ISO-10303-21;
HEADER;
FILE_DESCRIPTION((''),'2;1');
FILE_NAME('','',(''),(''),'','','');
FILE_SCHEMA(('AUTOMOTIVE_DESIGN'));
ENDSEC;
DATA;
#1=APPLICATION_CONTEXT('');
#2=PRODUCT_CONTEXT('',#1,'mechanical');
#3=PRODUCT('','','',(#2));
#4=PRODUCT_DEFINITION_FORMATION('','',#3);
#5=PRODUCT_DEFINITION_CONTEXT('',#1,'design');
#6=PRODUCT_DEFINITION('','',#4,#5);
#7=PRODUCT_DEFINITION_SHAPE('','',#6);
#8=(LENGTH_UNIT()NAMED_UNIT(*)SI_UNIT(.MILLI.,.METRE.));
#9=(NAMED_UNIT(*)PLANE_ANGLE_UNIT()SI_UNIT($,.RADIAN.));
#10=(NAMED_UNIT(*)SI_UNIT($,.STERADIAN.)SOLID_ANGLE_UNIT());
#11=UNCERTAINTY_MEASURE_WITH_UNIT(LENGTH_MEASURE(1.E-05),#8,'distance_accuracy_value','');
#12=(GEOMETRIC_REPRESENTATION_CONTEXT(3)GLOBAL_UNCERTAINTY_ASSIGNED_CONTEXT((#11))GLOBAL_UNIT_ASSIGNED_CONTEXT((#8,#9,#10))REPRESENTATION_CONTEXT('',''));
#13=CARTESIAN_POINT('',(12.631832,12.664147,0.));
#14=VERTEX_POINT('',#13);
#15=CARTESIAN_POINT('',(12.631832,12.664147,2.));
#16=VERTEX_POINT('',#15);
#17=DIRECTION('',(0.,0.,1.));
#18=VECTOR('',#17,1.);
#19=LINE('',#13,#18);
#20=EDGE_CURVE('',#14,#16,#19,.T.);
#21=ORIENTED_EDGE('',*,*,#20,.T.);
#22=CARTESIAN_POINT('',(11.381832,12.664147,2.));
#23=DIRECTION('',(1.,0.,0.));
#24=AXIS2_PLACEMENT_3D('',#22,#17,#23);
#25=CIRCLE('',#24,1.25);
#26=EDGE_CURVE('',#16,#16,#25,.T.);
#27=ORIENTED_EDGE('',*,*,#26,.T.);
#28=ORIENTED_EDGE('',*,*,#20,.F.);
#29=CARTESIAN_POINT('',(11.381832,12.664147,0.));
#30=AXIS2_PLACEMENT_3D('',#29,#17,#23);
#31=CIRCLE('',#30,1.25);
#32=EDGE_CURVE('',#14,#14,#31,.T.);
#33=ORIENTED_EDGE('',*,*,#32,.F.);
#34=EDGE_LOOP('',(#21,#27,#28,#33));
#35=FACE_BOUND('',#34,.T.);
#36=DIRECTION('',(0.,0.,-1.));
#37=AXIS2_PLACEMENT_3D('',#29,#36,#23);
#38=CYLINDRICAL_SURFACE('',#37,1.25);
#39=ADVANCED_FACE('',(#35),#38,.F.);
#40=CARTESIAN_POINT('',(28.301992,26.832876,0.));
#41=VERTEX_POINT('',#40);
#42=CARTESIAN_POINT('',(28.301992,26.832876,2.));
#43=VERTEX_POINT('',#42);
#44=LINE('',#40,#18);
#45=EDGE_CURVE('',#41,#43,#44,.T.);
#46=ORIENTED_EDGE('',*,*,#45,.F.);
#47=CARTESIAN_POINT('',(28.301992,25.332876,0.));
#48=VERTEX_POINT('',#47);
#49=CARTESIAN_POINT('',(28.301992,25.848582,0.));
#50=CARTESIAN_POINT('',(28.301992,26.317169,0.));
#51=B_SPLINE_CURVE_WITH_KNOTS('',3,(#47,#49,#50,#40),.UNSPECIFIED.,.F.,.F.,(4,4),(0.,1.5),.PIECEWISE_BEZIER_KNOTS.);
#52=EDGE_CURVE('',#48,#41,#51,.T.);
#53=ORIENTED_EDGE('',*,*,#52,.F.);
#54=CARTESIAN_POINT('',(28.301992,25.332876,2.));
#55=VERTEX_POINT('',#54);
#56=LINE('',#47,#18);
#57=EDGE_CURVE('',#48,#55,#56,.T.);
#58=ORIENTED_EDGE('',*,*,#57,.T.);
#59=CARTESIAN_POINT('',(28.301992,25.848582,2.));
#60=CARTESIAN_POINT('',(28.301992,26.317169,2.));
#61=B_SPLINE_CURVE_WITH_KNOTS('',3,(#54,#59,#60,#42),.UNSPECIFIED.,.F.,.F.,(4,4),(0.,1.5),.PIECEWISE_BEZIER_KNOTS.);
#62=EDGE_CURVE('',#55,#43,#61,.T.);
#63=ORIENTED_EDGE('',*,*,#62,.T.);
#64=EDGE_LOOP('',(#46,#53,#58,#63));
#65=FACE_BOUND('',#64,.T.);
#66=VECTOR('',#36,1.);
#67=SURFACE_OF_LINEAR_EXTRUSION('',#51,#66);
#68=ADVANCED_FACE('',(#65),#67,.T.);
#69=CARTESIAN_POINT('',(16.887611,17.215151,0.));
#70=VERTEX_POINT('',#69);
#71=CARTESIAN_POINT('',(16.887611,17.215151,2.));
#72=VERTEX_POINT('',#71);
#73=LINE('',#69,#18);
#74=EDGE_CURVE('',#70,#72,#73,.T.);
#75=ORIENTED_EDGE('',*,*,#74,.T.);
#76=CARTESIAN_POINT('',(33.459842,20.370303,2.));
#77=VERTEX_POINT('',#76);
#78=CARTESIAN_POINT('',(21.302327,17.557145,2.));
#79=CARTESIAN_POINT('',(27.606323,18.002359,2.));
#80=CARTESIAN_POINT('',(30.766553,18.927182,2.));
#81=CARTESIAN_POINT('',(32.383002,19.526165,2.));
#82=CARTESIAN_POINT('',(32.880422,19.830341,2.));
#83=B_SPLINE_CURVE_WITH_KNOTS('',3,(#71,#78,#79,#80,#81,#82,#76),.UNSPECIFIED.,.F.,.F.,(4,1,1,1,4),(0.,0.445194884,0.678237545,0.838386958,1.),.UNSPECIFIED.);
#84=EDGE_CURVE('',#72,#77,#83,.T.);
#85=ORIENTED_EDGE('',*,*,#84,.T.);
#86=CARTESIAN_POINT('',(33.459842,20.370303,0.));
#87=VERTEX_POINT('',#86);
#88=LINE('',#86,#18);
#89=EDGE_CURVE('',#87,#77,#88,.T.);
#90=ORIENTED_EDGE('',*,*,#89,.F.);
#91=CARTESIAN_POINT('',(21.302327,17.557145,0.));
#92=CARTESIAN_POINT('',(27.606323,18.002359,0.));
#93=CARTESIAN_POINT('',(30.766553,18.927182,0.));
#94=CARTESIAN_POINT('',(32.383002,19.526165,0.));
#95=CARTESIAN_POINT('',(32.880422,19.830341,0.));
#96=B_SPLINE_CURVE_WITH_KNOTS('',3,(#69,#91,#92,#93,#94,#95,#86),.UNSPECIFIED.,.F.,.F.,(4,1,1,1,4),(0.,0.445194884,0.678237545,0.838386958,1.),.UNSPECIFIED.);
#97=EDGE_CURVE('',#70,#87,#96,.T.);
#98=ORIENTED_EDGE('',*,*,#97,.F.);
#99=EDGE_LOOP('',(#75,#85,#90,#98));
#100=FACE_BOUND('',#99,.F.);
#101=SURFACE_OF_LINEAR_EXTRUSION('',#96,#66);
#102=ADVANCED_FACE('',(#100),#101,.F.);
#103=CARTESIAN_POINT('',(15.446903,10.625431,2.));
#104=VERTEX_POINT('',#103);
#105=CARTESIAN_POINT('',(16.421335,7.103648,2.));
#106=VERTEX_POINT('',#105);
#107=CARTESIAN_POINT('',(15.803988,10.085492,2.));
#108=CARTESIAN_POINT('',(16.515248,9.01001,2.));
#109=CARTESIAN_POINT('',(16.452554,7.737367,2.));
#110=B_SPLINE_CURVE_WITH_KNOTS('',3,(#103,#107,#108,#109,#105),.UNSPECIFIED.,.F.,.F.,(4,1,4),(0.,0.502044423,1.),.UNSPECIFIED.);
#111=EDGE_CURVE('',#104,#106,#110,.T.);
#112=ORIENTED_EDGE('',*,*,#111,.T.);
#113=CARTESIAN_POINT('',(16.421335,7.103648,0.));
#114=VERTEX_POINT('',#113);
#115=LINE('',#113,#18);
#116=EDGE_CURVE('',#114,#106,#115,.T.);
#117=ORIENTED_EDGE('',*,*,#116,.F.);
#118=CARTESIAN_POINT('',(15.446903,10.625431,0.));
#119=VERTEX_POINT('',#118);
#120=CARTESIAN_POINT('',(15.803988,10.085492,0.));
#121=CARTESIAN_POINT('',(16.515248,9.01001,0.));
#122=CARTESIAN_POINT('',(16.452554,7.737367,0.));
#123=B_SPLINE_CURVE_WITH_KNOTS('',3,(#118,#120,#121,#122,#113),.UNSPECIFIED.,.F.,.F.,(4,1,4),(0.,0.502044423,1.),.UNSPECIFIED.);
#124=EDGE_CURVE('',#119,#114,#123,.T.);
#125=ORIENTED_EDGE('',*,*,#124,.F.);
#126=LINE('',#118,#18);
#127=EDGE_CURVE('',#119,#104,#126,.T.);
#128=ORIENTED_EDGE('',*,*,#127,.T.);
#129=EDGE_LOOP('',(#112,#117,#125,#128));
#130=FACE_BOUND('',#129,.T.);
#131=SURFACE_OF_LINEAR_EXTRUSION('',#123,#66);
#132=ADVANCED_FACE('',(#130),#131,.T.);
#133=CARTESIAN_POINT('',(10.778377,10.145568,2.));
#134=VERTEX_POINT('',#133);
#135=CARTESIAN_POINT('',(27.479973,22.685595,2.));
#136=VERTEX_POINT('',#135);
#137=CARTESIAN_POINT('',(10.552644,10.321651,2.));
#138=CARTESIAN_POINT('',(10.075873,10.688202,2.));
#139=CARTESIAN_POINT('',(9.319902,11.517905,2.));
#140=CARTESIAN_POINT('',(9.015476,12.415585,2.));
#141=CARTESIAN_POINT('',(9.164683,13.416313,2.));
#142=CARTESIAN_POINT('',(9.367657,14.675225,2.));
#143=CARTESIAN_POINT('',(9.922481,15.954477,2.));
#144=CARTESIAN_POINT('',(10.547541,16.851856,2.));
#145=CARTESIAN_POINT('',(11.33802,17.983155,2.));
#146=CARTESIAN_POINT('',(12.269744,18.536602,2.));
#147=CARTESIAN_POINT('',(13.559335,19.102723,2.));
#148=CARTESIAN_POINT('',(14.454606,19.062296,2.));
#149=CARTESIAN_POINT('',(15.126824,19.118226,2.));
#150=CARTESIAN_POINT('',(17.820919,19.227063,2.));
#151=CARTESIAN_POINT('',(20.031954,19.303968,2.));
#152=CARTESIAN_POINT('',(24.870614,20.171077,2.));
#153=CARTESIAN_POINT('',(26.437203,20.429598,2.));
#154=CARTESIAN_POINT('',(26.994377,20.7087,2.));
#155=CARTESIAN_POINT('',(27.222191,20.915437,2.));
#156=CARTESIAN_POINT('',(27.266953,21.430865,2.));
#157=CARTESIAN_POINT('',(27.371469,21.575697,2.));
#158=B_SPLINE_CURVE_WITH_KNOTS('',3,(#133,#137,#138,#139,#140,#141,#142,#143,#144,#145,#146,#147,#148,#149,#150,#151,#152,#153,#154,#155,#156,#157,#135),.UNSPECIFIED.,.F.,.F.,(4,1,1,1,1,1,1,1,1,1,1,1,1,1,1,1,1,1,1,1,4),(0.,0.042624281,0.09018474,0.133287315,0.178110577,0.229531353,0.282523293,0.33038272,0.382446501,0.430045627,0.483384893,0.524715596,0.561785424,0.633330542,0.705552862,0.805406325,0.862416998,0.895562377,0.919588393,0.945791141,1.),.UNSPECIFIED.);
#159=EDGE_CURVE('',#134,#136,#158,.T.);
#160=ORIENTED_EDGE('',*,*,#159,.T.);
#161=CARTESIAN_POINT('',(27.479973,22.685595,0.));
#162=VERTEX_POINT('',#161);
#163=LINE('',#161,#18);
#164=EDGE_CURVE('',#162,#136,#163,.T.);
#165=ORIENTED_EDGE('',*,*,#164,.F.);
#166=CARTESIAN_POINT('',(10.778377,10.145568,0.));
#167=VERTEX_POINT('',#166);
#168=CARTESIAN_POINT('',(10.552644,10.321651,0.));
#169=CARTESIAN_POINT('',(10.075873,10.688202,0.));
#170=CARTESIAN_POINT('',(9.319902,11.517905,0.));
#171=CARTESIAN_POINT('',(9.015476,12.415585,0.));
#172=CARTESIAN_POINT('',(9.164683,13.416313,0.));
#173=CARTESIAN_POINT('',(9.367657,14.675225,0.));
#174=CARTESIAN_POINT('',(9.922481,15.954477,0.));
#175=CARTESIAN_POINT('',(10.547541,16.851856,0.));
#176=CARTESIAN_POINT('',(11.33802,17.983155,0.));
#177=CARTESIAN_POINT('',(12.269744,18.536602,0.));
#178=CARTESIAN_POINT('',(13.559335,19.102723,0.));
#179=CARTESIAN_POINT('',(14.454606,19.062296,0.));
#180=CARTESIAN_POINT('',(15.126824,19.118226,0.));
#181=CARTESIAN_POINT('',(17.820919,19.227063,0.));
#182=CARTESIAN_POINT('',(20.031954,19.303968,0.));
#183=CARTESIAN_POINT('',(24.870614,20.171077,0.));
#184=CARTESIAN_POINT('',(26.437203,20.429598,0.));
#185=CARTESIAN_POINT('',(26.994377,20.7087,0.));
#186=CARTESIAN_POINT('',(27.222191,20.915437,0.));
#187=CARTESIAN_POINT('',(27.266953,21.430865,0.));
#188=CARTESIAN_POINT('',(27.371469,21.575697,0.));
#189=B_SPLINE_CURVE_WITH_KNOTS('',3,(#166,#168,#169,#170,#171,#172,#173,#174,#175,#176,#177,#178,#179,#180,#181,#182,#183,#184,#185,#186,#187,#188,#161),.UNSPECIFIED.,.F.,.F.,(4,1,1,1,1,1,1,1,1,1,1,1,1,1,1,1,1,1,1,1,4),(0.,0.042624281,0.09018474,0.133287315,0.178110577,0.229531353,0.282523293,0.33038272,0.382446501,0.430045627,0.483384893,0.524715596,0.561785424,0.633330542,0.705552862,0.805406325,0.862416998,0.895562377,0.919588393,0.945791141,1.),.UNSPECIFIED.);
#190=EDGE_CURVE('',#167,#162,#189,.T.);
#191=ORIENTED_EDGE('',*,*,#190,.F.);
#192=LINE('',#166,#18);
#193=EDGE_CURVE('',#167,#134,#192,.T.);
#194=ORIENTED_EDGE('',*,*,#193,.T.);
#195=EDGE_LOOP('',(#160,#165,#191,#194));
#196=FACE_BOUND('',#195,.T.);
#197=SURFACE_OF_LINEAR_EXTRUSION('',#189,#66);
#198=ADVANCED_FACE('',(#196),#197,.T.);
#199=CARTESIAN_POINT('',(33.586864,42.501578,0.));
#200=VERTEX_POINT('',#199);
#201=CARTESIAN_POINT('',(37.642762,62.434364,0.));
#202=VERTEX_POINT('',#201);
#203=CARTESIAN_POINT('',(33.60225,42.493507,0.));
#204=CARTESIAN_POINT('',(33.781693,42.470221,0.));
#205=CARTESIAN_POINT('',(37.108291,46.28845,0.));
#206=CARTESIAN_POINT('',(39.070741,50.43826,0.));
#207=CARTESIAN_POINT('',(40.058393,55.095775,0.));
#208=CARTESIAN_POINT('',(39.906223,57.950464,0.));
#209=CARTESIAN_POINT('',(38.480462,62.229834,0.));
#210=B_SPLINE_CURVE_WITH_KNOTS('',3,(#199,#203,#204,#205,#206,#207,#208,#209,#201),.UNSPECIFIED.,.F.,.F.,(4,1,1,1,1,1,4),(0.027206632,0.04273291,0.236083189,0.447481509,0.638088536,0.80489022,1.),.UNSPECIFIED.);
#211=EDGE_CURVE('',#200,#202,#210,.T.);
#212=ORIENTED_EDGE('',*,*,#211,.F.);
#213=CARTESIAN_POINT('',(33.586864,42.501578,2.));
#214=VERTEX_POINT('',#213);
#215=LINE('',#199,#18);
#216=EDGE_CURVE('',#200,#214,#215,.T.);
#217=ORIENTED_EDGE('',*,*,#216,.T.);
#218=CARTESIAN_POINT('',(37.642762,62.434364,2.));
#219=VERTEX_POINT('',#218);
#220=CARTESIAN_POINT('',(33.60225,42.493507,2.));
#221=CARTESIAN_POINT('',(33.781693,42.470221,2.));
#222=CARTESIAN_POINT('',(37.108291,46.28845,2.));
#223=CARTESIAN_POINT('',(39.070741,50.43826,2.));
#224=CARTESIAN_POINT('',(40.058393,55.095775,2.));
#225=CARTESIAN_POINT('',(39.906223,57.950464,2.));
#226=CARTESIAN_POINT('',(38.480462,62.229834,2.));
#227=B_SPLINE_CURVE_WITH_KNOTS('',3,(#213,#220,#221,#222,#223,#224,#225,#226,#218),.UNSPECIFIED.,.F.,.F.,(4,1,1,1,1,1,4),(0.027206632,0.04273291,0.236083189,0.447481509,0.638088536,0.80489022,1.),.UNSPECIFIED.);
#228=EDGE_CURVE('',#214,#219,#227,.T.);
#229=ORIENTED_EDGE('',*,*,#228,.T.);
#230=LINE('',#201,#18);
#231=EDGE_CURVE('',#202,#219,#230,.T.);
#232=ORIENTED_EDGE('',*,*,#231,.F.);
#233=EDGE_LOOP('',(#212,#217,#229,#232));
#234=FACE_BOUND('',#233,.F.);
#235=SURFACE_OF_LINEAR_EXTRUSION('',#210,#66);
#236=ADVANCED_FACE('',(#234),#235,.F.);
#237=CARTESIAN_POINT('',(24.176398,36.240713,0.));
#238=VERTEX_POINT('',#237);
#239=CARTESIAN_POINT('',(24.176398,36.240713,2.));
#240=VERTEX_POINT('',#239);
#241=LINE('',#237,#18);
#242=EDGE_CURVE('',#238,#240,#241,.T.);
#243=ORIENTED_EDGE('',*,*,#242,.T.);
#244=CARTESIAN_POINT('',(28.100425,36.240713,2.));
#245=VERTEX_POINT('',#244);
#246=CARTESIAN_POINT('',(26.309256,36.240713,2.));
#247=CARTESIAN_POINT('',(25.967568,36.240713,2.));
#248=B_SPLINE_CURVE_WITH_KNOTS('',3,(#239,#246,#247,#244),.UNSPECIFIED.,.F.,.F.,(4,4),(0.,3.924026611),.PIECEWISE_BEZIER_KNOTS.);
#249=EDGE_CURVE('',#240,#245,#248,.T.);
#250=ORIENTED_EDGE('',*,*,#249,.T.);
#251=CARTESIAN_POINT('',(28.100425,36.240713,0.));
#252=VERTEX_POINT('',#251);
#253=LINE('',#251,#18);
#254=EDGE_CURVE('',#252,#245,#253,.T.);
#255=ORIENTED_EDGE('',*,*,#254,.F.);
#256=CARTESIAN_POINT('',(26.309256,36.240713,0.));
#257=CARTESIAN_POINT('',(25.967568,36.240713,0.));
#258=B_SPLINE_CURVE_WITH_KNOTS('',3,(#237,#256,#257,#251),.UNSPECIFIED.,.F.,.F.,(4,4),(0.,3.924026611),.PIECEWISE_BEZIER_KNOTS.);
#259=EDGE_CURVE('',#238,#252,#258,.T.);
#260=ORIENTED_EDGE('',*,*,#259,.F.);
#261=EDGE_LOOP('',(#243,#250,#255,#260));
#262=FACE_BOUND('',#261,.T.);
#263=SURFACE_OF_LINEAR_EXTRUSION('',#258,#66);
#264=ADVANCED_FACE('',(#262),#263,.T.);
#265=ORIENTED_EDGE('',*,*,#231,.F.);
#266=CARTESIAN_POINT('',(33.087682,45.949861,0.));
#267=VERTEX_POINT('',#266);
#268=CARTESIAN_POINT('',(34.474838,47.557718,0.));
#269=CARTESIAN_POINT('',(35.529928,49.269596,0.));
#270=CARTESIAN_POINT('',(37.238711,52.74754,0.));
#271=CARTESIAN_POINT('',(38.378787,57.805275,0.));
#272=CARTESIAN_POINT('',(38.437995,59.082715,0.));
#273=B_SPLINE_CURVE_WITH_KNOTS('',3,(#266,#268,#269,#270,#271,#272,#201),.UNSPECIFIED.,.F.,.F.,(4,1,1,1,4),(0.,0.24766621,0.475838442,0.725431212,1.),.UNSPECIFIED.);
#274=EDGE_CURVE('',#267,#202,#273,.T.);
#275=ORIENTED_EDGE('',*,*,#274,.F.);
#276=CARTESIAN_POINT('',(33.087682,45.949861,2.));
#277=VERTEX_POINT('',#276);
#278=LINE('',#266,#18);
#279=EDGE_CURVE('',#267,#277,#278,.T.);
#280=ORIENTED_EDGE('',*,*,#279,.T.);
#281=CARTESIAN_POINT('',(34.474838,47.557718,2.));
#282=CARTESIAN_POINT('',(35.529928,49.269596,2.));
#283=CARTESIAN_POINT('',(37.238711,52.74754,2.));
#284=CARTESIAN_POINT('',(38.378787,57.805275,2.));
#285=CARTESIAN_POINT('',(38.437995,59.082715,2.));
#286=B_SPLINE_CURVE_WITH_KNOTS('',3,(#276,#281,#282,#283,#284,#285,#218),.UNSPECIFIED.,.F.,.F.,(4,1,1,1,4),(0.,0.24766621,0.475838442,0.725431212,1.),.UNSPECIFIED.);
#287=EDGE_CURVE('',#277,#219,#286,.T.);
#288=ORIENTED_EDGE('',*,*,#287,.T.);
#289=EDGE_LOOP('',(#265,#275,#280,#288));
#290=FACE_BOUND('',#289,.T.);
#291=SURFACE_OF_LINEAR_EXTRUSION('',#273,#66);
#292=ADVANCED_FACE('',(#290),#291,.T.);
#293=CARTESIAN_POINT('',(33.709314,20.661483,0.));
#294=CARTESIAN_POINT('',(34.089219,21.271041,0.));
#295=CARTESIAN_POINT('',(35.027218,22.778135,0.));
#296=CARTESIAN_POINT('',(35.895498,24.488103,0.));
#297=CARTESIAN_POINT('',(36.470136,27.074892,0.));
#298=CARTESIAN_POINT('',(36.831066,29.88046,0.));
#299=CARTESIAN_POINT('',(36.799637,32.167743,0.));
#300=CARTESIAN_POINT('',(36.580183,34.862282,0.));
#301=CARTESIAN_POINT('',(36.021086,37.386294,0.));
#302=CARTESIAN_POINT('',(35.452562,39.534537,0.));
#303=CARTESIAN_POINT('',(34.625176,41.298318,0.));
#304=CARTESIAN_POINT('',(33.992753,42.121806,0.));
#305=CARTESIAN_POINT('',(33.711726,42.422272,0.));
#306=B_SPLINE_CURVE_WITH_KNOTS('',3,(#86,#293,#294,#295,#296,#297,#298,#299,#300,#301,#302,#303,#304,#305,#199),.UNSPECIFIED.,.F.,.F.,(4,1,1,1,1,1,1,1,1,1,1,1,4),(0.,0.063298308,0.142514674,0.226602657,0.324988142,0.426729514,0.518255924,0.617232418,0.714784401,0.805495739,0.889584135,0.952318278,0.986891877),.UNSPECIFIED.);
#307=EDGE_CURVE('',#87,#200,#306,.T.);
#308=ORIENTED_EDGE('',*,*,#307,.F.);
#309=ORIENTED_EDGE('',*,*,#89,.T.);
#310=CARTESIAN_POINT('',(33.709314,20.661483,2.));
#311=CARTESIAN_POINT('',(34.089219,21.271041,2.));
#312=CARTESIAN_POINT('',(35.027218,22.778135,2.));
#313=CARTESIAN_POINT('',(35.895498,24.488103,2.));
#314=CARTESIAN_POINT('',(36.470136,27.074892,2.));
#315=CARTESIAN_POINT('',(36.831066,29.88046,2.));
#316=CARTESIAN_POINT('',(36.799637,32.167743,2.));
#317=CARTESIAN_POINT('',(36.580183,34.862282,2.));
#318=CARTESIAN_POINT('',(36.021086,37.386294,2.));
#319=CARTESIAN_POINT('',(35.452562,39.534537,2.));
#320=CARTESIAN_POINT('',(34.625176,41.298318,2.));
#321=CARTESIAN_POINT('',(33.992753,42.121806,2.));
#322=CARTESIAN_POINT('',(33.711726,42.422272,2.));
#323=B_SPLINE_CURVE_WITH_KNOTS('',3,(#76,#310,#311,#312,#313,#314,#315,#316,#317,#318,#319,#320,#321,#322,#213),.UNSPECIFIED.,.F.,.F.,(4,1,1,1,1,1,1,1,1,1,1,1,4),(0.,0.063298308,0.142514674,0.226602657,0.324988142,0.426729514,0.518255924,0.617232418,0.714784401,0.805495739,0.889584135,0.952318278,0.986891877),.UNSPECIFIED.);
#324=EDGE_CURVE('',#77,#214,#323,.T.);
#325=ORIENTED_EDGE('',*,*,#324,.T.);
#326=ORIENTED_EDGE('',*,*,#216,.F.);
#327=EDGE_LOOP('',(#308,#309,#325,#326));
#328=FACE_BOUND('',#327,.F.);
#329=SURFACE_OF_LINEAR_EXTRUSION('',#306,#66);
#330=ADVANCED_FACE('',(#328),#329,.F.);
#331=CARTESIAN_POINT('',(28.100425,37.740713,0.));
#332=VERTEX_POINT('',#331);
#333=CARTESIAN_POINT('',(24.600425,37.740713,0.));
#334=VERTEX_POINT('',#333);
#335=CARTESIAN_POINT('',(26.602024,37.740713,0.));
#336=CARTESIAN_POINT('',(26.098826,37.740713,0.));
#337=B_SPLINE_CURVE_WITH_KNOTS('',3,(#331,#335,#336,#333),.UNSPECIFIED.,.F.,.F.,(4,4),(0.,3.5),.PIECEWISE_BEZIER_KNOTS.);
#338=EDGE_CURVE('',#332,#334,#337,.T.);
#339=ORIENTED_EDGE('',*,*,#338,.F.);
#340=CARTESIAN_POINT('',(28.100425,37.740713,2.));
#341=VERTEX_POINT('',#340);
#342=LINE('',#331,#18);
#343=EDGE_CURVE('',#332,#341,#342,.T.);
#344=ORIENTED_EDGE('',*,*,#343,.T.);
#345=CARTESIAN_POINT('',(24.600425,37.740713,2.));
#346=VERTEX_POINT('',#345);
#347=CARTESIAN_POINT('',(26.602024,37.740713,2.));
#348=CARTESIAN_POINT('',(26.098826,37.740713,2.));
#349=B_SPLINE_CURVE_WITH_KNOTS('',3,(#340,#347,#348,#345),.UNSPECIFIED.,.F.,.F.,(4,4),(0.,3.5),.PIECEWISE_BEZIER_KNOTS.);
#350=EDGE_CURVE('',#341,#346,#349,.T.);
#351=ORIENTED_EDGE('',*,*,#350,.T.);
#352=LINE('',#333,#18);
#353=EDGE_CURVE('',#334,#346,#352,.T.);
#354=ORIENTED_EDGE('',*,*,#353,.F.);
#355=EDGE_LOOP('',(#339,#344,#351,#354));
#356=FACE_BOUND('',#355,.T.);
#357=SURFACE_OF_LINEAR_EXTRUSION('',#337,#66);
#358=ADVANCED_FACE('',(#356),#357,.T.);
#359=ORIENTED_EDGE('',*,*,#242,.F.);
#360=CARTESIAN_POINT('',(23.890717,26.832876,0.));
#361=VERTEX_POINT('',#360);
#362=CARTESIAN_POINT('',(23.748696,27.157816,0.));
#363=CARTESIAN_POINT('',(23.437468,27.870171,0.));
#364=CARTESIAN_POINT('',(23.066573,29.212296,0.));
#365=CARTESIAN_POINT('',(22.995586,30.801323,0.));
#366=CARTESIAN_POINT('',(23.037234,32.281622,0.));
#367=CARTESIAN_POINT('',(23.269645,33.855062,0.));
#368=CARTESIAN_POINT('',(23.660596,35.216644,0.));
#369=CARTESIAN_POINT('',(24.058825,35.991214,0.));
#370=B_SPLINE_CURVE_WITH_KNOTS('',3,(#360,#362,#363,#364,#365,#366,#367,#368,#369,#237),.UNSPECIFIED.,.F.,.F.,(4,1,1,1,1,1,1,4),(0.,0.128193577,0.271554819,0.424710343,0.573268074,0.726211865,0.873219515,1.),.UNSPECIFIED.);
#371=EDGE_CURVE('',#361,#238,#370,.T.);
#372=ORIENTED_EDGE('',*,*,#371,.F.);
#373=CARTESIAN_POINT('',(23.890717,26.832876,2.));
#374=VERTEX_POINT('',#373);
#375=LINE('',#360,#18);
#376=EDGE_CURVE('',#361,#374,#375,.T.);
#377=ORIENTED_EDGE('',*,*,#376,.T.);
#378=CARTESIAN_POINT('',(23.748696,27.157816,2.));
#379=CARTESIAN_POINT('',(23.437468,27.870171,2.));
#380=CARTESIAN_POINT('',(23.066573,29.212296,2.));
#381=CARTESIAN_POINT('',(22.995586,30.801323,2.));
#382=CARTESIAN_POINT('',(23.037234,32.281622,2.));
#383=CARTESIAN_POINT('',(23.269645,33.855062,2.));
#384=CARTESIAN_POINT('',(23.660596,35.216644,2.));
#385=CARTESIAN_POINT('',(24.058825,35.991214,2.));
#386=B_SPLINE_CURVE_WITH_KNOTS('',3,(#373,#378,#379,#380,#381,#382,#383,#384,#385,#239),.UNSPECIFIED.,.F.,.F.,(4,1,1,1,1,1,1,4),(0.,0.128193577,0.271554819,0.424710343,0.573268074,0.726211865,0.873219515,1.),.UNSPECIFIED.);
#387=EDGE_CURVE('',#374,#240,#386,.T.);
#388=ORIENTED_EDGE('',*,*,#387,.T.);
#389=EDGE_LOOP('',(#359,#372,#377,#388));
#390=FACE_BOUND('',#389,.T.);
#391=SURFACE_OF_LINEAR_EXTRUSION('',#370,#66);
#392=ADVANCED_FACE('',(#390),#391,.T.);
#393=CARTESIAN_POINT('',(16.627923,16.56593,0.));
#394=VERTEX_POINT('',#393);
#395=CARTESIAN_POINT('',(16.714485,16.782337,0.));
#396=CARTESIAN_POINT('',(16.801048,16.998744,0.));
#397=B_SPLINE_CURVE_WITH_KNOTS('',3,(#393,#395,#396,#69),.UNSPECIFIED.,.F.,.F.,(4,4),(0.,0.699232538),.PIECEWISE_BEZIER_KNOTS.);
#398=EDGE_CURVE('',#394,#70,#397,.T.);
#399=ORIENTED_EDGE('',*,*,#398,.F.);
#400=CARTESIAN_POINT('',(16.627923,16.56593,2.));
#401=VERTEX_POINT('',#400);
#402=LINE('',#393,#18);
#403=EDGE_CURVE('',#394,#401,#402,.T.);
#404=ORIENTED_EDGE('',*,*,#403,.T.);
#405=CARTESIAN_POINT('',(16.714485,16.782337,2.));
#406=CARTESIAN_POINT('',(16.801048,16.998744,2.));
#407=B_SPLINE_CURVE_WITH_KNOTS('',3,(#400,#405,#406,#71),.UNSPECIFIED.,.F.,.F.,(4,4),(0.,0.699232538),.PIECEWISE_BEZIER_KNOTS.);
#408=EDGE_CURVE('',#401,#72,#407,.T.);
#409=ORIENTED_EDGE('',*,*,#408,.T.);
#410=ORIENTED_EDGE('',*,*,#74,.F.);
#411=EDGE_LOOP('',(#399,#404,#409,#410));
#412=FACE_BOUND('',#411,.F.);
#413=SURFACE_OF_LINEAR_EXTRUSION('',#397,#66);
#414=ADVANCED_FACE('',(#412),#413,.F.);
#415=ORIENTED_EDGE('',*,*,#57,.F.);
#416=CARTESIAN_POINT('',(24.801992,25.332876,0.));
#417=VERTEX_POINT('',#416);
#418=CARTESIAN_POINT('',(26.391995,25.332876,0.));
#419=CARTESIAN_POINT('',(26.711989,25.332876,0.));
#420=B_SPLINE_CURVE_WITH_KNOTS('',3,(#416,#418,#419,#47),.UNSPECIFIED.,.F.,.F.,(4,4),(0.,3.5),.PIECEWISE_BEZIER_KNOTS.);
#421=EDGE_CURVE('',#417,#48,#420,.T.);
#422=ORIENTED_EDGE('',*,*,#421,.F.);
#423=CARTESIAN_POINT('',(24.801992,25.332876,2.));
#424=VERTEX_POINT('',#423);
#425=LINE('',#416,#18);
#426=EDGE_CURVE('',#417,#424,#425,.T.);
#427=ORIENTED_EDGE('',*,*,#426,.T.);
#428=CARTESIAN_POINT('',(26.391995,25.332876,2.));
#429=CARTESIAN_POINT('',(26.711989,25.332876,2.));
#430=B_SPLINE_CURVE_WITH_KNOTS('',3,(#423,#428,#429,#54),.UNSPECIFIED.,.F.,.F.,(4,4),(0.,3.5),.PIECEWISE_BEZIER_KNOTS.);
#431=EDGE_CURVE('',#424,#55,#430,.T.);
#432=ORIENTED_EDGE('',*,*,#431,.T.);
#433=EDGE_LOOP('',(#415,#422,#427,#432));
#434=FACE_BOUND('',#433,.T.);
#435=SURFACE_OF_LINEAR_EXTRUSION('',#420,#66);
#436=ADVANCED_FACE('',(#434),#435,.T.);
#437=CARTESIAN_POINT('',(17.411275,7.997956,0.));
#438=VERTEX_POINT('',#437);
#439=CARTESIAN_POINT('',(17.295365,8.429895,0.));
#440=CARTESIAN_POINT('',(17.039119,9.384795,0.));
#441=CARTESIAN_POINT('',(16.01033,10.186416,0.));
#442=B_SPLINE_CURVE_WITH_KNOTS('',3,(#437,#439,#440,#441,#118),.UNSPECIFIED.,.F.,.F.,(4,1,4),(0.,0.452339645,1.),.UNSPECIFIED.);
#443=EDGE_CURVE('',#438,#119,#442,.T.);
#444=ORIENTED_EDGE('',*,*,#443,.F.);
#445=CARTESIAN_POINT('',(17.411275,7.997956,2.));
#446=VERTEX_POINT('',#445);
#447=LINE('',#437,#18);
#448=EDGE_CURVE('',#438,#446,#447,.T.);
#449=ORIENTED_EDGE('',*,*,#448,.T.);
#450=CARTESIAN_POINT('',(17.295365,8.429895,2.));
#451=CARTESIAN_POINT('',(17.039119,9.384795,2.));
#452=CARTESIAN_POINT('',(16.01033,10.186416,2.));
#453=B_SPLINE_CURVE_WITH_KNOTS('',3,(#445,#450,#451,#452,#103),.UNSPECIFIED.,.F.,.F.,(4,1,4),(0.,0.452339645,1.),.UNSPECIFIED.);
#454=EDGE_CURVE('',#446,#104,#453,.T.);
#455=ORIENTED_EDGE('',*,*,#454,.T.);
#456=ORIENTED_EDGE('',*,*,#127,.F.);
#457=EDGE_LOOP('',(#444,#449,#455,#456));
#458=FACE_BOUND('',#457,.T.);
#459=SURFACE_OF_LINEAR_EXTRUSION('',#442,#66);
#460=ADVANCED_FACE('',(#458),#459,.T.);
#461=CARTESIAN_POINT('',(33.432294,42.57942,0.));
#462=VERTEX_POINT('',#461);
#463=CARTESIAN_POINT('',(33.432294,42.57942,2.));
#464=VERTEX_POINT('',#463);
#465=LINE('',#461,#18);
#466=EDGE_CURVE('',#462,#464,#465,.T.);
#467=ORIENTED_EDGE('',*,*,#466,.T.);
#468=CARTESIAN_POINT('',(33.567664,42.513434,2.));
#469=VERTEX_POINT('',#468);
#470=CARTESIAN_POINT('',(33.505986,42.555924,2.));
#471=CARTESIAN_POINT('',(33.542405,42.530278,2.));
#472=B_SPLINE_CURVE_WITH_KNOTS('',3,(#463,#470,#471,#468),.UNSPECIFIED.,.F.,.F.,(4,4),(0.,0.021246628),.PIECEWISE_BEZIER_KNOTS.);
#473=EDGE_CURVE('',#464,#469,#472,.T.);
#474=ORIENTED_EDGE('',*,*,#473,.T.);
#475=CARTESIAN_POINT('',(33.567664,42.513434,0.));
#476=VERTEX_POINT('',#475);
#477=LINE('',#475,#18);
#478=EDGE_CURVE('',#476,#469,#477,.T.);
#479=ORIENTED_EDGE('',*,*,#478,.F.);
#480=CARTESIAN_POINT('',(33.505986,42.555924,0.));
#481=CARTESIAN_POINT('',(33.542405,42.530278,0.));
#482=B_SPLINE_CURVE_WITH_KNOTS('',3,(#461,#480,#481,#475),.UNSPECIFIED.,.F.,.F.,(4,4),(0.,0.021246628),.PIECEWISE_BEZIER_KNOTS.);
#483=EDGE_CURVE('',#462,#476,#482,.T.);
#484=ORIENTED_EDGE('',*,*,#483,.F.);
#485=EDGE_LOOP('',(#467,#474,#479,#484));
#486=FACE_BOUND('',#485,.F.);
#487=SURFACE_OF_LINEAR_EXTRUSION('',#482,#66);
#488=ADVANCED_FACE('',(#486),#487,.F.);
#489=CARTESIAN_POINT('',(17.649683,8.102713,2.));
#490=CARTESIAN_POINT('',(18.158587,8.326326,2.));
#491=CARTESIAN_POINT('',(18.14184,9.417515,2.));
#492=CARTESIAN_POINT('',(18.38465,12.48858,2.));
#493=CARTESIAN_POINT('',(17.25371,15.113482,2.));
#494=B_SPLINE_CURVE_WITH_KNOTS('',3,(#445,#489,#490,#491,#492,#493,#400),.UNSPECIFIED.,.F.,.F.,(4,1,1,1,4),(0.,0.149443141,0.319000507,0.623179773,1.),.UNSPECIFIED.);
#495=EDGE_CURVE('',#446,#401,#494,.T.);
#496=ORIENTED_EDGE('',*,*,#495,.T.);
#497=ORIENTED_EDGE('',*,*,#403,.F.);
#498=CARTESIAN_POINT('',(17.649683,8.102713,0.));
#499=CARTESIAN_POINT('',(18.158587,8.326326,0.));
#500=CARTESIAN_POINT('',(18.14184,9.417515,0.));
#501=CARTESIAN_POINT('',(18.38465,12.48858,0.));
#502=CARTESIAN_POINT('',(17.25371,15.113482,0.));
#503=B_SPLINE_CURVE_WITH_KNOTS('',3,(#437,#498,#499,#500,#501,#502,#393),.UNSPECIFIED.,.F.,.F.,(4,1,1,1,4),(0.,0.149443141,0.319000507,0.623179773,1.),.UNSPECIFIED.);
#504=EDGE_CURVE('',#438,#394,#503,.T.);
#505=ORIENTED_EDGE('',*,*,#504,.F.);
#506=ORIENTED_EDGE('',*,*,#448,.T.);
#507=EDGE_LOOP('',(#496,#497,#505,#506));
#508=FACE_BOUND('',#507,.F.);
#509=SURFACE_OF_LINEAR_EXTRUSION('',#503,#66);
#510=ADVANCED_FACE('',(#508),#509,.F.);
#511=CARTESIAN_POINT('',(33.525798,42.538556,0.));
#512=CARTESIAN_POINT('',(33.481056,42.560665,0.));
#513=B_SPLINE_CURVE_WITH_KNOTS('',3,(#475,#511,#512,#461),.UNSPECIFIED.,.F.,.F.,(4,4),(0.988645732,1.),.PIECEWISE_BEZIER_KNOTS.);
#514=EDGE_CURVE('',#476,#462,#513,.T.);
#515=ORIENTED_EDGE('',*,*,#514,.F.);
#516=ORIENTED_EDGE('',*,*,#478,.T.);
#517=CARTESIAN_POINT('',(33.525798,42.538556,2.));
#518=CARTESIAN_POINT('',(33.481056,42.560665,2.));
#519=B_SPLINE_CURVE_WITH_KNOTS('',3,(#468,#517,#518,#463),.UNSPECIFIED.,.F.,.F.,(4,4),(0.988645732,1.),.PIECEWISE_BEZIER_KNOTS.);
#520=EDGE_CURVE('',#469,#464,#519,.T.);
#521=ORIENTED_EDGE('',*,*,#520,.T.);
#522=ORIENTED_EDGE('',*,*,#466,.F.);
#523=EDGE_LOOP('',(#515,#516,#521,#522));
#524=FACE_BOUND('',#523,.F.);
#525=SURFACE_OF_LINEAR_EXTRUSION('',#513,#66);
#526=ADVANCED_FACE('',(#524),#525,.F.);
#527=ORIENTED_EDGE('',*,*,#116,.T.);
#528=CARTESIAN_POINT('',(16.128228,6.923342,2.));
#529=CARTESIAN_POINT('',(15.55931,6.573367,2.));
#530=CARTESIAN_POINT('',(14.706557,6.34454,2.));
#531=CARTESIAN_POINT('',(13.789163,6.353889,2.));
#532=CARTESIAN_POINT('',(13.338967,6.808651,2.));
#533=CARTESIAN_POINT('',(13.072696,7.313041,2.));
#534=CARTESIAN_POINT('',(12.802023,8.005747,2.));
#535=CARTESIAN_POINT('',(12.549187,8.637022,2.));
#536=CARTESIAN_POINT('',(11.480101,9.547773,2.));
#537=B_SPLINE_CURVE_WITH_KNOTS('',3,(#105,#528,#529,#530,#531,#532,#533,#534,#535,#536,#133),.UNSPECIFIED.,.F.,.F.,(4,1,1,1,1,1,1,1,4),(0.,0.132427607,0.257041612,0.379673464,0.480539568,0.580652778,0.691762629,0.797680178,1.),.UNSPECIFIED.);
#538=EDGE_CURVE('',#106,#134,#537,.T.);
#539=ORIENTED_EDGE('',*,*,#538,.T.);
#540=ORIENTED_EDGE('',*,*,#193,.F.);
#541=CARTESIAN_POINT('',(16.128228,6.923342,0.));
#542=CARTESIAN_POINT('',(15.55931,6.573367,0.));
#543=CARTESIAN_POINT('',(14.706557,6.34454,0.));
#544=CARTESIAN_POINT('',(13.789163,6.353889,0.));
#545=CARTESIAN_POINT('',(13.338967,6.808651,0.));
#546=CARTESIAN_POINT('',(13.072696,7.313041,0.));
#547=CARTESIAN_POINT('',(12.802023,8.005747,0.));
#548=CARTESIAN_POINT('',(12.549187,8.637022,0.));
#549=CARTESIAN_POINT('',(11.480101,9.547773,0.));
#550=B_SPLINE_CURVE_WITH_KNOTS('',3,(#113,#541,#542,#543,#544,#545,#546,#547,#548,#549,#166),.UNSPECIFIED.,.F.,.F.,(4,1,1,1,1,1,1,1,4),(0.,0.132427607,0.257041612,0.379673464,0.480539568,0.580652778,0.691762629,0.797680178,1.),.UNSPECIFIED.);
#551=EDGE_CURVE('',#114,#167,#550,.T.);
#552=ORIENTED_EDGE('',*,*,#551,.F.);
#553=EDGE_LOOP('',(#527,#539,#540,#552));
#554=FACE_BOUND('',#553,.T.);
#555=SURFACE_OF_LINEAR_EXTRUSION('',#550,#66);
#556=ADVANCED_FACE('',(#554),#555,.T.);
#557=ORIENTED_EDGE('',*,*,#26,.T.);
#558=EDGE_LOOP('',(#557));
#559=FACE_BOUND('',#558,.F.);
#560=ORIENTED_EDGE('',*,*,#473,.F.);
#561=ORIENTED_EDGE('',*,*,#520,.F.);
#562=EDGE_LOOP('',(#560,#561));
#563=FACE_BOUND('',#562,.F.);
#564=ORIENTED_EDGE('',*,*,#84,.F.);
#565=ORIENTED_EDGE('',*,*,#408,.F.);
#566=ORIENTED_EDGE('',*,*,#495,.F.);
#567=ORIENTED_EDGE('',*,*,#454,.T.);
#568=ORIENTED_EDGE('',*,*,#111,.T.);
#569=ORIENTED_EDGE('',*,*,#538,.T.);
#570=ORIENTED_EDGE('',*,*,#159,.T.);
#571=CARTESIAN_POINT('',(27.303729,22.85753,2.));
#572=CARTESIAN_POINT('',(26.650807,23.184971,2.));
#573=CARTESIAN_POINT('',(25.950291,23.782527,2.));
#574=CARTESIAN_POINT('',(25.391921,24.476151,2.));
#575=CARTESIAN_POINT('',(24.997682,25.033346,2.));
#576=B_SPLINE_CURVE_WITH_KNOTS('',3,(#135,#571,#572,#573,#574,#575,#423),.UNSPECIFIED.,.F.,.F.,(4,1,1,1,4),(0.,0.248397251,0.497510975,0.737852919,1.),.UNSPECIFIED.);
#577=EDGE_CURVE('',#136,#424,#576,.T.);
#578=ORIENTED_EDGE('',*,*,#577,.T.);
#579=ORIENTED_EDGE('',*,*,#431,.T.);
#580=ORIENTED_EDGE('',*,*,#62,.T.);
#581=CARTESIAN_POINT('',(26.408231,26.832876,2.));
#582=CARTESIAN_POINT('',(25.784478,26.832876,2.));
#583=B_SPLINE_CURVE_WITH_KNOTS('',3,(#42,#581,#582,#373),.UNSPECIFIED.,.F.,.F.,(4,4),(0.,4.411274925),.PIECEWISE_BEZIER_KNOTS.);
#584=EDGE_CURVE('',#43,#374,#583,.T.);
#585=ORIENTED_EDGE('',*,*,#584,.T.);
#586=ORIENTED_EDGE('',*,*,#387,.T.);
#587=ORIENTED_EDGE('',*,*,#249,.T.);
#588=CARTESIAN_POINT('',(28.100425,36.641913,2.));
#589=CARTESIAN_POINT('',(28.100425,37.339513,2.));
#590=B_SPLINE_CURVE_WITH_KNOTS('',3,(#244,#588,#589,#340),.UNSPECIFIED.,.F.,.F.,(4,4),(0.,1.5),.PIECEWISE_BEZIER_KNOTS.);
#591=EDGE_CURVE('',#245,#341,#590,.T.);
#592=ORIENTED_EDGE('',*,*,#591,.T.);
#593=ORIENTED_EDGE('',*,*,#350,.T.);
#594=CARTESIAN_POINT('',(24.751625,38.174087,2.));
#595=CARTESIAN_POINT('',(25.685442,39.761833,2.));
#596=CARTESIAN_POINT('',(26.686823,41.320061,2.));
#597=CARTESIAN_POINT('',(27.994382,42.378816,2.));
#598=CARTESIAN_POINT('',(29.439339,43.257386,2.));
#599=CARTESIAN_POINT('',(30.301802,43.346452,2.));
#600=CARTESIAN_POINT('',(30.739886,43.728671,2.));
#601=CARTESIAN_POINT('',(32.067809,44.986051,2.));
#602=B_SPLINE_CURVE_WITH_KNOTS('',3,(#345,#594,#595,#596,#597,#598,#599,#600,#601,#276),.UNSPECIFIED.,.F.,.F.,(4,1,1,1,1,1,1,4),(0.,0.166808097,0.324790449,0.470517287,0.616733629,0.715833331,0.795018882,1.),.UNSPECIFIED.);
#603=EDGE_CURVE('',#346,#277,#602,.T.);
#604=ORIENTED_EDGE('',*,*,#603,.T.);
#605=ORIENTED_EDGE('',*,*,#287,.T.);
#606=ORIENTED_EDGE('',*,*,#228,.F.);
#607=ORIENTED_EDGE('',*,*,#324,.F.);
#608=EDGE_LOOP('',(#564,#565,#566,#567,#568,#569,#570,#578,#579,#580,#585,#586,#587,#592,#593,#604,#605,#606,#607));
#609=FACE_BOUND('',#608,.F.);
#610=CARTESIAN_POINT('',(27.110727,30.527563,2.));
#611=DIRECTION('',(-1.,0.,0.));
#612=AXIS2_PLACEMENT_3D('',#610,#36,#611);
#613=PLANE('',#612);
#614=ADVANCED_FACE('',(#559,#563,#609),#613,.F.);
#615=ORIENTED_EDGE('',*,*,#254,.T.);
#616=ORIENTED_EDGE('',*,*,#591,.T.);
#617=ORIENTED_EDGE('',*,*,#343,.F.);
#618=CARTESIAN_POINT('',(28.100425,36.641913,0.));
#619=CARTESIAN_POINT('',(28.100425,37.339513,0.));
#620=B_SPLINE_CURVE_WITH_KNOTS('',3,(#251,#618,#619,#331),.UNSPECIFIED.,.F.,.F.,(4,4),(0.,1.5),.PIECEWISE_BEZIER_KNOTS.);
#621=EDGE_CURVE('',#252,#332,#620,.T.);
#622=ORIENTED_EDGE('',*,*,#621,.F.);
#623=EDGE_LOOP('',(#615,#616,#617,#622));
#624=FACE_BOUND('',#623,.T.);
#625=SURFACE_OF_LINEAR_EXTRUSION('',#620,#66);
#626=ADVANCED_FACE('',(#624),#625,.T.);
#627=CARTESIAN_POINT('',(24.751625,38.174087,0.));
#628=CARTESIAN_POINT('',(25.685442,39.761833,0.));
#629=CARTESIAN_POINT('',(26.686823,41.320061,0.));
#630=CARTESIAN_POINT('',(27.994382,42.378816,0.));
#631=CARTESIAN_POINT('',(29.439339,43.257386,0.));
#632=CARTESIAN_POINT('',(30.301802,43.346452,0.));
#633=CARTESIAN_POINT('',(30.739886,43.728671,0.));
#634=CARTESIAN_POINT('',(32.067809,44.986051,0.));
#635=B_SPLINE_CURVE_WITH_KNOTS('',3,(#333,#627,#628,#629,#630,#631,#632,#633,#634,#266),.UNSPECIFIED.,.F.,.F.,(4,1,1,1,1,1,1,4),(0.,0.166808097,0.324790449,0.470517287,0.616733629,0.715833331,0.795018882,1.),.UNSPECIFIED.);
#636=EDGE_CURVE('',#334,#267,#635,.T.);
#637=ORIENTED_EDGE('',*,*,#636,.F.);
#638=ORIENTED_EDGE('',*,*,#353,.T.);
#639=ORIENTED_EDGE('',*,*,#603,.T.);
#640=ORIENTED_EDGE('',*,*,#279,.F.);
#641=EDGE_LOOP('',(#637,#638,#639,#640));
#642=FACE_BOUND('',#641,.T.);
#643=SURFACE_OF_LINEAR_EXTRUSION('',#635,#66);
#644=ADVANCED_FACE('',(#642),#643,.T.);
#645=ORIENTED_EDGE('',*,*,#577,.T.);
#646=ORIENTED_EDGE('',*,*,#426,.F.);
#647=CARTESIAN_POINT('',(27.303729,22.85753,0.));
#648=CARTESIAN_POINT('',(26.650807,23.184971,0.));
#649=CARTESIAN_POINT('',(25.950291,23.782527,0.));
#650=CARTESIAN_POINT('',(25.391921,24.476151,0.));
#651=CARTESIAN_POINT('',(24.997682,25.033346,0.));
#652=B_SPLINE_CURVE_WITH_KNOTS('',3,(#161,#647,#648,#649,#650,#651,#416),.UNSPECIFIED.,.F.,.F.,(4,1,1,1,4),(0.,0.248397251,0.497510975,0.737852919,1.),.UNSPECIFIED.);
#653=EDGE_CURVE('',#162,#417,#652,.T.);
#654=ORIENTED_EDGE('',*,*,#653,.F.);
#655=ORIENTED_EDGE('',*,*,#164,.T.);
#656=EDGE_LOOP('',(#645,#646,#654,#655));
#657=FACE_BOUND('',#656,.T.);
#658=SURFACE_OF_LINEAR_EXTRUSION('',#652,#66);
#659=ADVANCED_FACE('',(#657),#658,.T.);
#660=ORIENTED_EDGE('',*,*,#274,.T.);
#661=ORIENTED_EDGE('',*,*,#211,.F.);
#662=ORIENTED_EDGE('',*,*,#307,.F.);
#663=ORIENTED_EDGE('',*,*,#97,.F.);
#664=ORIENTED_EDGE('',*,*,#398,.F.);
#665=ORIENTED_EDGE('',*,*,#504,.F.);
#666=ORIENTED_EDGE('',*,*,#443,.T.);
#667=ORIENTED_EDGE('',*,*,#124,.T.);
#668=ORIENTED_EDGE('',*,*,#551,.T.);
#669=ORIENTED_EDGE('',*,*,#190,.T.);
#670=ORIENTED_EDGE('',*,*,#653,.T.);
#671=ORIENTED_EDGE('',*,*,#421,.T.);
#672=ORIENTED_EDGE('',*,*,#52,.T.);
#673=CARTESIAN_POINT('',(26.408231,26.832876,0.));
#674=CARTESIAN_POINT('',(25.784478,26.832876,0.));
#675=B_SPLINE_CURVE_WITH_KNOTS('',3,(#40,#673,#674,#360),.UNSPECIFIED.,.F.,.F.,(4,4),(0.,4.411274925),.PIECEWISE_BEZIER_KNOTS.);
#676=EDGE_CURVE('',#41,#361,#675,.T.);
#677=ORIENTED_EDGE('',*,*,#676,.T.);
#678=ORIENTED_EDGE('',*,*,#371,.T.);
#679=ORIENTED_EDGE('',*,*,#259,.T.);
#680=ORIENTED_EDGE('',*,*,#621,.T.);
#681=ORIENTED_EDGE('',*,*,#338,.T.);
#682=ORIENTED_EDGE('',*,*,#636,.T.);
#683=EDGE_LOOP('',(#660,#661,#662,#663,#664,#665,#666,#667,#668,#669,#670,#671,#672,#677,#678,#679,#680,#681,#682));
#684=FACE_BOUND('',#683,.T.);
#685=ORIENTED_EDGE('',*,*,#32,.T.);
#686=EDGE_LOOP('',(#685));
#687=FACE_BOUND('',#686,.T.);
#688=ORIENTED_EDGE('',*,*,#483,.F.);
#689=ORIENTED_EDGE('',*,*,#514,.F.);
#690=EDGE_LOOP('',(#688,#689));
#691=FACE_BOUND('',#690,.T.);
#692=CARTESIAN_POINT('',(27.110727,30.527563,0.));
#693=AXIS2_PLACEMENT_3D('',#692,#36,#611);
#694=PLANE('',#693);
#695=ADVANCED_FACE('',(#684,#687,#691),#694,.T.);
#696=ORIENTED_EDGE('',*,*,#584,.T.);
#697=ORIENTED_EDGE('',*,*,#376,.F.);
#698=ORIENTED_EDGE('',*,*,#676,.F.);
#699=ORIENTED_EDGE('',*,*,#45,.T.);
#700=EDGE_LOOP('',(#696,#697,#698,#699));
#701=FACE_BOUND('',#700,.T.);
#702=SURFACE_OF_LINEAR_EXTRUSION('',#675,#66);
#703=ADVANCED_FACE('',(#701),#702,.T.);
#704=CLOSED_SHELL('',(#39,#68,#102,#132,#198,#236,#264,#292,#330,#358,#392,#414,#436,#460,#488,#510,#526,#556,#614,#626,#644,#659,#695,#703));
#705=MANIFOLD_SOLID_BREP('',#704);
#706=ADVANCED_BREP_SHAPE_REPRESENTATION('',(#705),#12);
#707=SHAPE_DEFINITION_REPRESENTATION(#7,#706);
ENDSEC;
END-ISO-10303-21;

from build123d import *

# Parameters (mm, degrees)
F0_R     = 1.25
F1_DEPTH = 2


with BuildPart() as f1:
    # F0 (on Top) → F1 (new body)
    with BuildSketch(Plane.XY):
        with BuildLine():
            add(Edge.make_bspline(
                [(17.4112748355, 7.9979561269), (17.295364719, 8.4298953193), (17.0391189583, 9.3847954637), (16.0103300712, 10.1864156942), (15.4469031841, 10.6254313141)],
                knots=[0, 0, 0, 0, 0.452339645, 1, 1, 1, 1], degree=3))
            add(Edge.make_bspline(
                [(17.4112748355, 7.9979561269), (17.6496828612, 8.1027128239), (18.1585873224, 8.3263258932), (18.1418398229, 9.4175152071), (18.384649629, 12.4885799442), (17.2537100596, 15.1134822161), (16.6279226542, 16.5659300983)],
                knots=[0, 0, 0, 0, 0.149443141, 0.3190005072, 0.6231797726, 1, 1, 1, 1], degree=3))
            add(Edge.make_bspline(
                [(16.6279226542, 16.5659300983), (16.7144853622, 16.7823371788), (16.8010480702, 16.9987442593), (16.8876107782, 17.2151513398)],
                knots=[0, 0, 0, 0, 0.699232538, 0.699232538, 0.699232538, 0.699232538], degree=3))
            add(Edge.make_bspline(
                [(16.8876107782, 17.2151513398), (21.3023265742, 17.5571449848), (27.6063227493, 18.0023592359), (30.7665528362, 18.9271820572), (32.3830017296, 19.5261649855), (32.8804217279, 19.8303405195), (33.459842205, 20.3703027219)],
                knots=[0, 0, 0, 0, 0.4451948842, 0.6782375448, 0.8383869575, 1, 1, 1, 1], degree=3))
            add(Edge.make_bspline(
                [(33.459842205, 20.3703027219), (33.7093137205, 20.6614825875), (34.0892188382, 21.271041053), (35.0272180271, 22.7781346582), (35.8954976181, 24.4881029044), (36.4701360127, 27.0748916579), (36.8310664534, 29.8804600254), (36.7996370974, 32.1677432718), (36.5801827878, 34.8622822195), (36.0210860437, 37.386294464), (35.4525619319, 39.5345373153), (34.6251760039, 41.2983175513), (33.9927530332, 42.1218059393), (33.7117263963, 42.4222721522), (33.5868639222, 42.501578042)],
                knots=[0, 0, 0, 0, 0.0632983082, 0.1425146741, 0.2266026575, 0.3249881417, 0.4267295141, 0.5182559235, 0.6172324177, 0.7147844011, 0.8054957393, 0.889584135, 0.9523182777, 0.986891877, 0.986891877, 0.986891877, 0.986891877], degree=3))
            add(Edge.make_bspline(
                [(33.5868639222, 42.501578042), (33.6022495579, 42.4935067615), (33.7816927426, 42.4702207033), (37.1082908777, 46.2884496128), (39.070740602, 50.4382602626), (40.0583934927, 55.0957753958), (39.9062227335, 57.9504644074), (38.4804621914, 62.2298343043), (37.6427620649, 62.4343641102)],
                knots=[0.0272066322, 0.0272066322, 0.0272066322, 0.0272066322, 0.0427329101, 0.2360831885, 0.4474815091, 0.6380885356, 0.8048902196, 1, 1, 1, 1], degree=3))
            add(Edge.make_bspline(
                [(33.0876819789, 45.9498614073), (34.4748375777, 47.5577178539), (35.529928086, 49.2695958239), (37.2387111433, 52.7475404239), (38.378787144, 57.8052753654), (38.4379953286, 59.0827154432), (37.6427620649, 62.4343641102)],
                knots=[0, 0, 0, 0, 0.2476662101, 0.4758384424, 0.7254312122, 1, 1, 1, 1], degree=3))
            add(Edge.make_bspline(
                [(24.6004249035, 37.7407133906), (24.7516245724, 38.1740866599), (25.685442122, 39.761832692), (26.6868233696, 41.3200613825), (27.9943822561, 42.3788163055), (29.4393394907, 43.2573863082), (30.3018024072, 43.3464516211), (30.7398858743, 43.7286708475), (32.0678089376, 44.9860514083), (33.0876819789, 45.9498614073)],
                knots=[0, 0, 0, 0, 0.1668080966, 0.3247904488, 0.4705172869, 0.6167336293, 0.7158333315, 0.7950188821, 1, 1, 1, 1], degree=3))
            add(Edge.make_bspline(
                [(28.1004249035, 37.7407133906), (26.6020242362, 37.7407133906), (26.0988255708, 37.7407133906), (24.6004249035, 37.7407133906)],
                knots=[0, 0, 0, 0, 3.5, 3.5, 3.5, 3.5], degree=3))
            add(Edge.make_bspline(
                [(28.1004249035, 36.2407133906), (28.1004249035, 36.6419134964), (28.1004249035, 37.3395132849), (28.1004249035, 37.7407133906)],
                knots=[0, 0, 0, 0, 1.5, 1.5, 1.5, 1.5], degree=3))
            add(Edge.make_bspline(
                [(24.1763982922, 36.2407133906), (26.3092555106, 36.2407133906), (25.9675676851, 36.2407133906), (28.1004249035, 36.2407133906)],
                knots=[0, 0, 0, 0, 3.9240266113, 3.9240266113, 3.9240266113, 3.9240266113], degree=3))
            add(Edge.make_bspline(
                [(23.8907169551, 26.8328755498), (23.7486957389, 27.1578162937), (23.4374680939, 27.8701713932), (23.0665734335, 29.212295563), (22.9955856728, 30.801323296), (23.0372341188, 32.281622145), (23.2696450727, 33.8550622075), (23.6605956125, 35.2166443669), (24.058825152, 35.9912141104), (24.1763982922, 36.2407133906)],
                knots=[0, 0, 0, 0, 0.1281935771, 0.2715548192, 0.4247103428, 0.5732680738, 0.7262118646, 0.8732195152, 1, 1, 1, 1], degree=3))
            add(Edge.make_bspline(
                [(28.3019918799, 26.8328755498), (26.4082306226, 26.8328755498), (25.7844782124, 26.8328755498), (23.8907169551, 26.8328755498)],
                knots=[0, 0, 0, 0, 4.4112749249, 4.4112749249, 4.4112749249, 4.4112749249], degree=3))
            add(Edge.make_bspline(
                [(28.3019918799, 25.3328755498), (28.3019918799, 25.8485817661), (28.3019918799, 26.3171693335), (28.3019918799, 26.8328755498)],
                knots=[0, 0, 0, 0, 1.5, 1.5, 1.5, 1.5], degree=3))
            add(Edge.make_bspline(
                [(24.8019918799, 25.3328755498), (26.391994829, 25.3328755498), (26.7119889309, 25.3328755498), (28.3019918799, 25.3328755498)],
                knots=[0, 0, 0, 0, 3.5, 3.5, 3.5, 3.5], degree=3))
            add(Edge.make_bspline(
                [(27.4799726903, 22.6855948567), (27.3037290861, 22.857529781), (26.6508071966, 23.1849712349), (25.9502905246, 23.7825274811), (25.3919207608, 24.4761509665), (24.9976820261, 25.0333462292), (24.8019918799, 25.3328755498)],
                knots=[0, 0, 0, 0, 0.2483972513, 0.4975109753, 0.7378529192, 1, 1, 1, 1], degree=3))
            add(Edge.make_bspline(
                [(10.7783768326, 10.1455682889), (10.5526435812, 10.3216510353), (10.0758727162, 10.6882021112), (9.3199023272, 11.5179050275), (9.0154755774, 12.415585051), (9.1646827824, 13.4163128715), (9.367656677, 14.6752248615), (9.9224806753, 15.9544767597), (10.5475412626, 16.8518555412), (11.3380203212, 17.9831550164), (12.2697439685, 18.5366015983), (13.5593348197, 19.1027227036), (14.4546063903, 19.0622957436), (15.1268243285, 19.1182259496), (17.8209191118, 19.2270633939), (20.0319535852, 19.3039682368), (24.8706141914, 20.1710767644), (26.4372034051, 20.4295984808), (26.9943771164, 20.7087003279), (27.2221914486, 20.915436534), (27.2669526335, 21.4308651701), (27.3714686469, 21.5756967871), (27.4799726903, 22.6855948567)],
                knots=[0, 0, 0, 0, 0.0426242811, 0.0901847402, 0.1332873145, 0.1781105769, 0.2295313534, 0.2825232928, 0.3303827198, 0.3824465013, 0.4300456267, 0.4833848932, 0.5247155957, 0.5617854244, 0.6333305425, 0.7055528618, 0.8054063253, 0.862416998, 0.895562377, 0.9195883933, 0.9457911414, 1, 1, 1, 1], degree=3))
            add(Edge.make_bspline(
                [(16.421334818, 7.1036480367), (16.1282284295, 6.9233415888), (15.5593097533, 6.5733672803), (14.7065573337, 6.3445395806), (13.7891630078, 6.3538885256), (13.3389673665, 6.8086506327), (13.072696217, 7.3130410826), (12.8020233561, 8.0057474991), (12.549187489, 8.637021886), (11.4801005597, 9.547772697), (10.7783768326, 10.1455682889)],
                knots=[0, 0, 0, 0, 0.1324276066, 0.2570416121, 0.3796734638, 0.480539568, 0.580652778, 0.6917626292, 0.7976801785, 1, 1, 1, 1], degree=3))
            add(Edge.make_bspline(
                [(15.4469031841, 10.6254313141), (15.8039875923, 10.0854916349), (16.5152481735, 9.010009757), (16.4525538206, 7.737367397), (16.421334818, 7.1036480367)],
                knots=[0, 0, 0, 0, 0.5020444233, 1, 1, 1, 1], degree=3))
        make_face()
        with Locations((11.3818319514, 12.6641467214)):
            Circle(F0_R, mode=Mode.SUBTRACT)
        with BuildLine():
            add(Edge.make_bspline(
                [(33.4322936833, 42.5794199109), (33.5059857607, 42.5559239397), (33.5424046256, 42.5302783951), (33.5676644586, 42.5134339984)],
                knots=[0, 0, 0, 0, 0.0212466282, 0.0212466282, 0.0212466282, 0.0212466282], degree=3))
            add(Edge.make_bspline(
                [(33.5676644586, 42.5134339984), (33.5257977766, 42.538555991), (33.4810562918, 42.5606648109), (33.4322936833, 42.5794199109)],
                knots=[0.9886457325, 0.9886457325, 0.9886457325, 0.9886457325, 1, 1, 1, 1], degree=3))
        make_face(mode=Mode.SUBTRACT)
        with BuildLine():
            add(Edge.make_bspline(
                [(33.5868639222, 42.501578042), (33.580529877, 42.5056010848), (33.5741314641, 42.5095534887), (33.5676644586, 42.5134339984)],
                knots=[0.986891877, 0.986891877, 0.986891877, 0.986891877, 0.9886457325, 0.9886457325, 0.9886457325, 0.9886457325], degree=3))
            add(Edge.make_bspline(
                [(33.5676644586, 42.5134339984), (33.5747502278, 42.5087088876), (33.5809579059, 42.5046763289), (33.5868639222, 42.501578042)],
                knots=[0.0212466282, 0.0212466282, 0.0212466282, 0.0212466282, 0.0272066322, 0.0272066322, 0.0272066322, 0.0272066322], degree=3))
        make_face(mode=Mode.SUBTRACT)
        with BuildLine():
            add(Edge.make_bspline(
                [(33.5676644586, 42.5134339984), (33.5747502278, 42.5087088876), (33.5809579059, 42.5046763289), (33.5868639222, 42.501578042)],
                knots=[0.0212466282, 0.0212466282, 0.0212466282, 0.0212466282, 0.0272066322, 0.0272066322, 0.0272066322, 0.0272066322], degree=3))
            add(Edge.make_bspline(
                [(33.5868639222, 42.501578042), (33.580529877, 42.5056010848), (33.5741314641, 42.5095534887), (33.5676644586, 42.5134339984)],
                knots=[0.986891877, 0.986891877, 0.986891877, 0.986891877, 0.9886457325, 0.9886457325, 0.9886457325, 0.9886457325], degree=3))
        make_face()
    extrude(amount=F1_DEPTH)


solid = f1.part
